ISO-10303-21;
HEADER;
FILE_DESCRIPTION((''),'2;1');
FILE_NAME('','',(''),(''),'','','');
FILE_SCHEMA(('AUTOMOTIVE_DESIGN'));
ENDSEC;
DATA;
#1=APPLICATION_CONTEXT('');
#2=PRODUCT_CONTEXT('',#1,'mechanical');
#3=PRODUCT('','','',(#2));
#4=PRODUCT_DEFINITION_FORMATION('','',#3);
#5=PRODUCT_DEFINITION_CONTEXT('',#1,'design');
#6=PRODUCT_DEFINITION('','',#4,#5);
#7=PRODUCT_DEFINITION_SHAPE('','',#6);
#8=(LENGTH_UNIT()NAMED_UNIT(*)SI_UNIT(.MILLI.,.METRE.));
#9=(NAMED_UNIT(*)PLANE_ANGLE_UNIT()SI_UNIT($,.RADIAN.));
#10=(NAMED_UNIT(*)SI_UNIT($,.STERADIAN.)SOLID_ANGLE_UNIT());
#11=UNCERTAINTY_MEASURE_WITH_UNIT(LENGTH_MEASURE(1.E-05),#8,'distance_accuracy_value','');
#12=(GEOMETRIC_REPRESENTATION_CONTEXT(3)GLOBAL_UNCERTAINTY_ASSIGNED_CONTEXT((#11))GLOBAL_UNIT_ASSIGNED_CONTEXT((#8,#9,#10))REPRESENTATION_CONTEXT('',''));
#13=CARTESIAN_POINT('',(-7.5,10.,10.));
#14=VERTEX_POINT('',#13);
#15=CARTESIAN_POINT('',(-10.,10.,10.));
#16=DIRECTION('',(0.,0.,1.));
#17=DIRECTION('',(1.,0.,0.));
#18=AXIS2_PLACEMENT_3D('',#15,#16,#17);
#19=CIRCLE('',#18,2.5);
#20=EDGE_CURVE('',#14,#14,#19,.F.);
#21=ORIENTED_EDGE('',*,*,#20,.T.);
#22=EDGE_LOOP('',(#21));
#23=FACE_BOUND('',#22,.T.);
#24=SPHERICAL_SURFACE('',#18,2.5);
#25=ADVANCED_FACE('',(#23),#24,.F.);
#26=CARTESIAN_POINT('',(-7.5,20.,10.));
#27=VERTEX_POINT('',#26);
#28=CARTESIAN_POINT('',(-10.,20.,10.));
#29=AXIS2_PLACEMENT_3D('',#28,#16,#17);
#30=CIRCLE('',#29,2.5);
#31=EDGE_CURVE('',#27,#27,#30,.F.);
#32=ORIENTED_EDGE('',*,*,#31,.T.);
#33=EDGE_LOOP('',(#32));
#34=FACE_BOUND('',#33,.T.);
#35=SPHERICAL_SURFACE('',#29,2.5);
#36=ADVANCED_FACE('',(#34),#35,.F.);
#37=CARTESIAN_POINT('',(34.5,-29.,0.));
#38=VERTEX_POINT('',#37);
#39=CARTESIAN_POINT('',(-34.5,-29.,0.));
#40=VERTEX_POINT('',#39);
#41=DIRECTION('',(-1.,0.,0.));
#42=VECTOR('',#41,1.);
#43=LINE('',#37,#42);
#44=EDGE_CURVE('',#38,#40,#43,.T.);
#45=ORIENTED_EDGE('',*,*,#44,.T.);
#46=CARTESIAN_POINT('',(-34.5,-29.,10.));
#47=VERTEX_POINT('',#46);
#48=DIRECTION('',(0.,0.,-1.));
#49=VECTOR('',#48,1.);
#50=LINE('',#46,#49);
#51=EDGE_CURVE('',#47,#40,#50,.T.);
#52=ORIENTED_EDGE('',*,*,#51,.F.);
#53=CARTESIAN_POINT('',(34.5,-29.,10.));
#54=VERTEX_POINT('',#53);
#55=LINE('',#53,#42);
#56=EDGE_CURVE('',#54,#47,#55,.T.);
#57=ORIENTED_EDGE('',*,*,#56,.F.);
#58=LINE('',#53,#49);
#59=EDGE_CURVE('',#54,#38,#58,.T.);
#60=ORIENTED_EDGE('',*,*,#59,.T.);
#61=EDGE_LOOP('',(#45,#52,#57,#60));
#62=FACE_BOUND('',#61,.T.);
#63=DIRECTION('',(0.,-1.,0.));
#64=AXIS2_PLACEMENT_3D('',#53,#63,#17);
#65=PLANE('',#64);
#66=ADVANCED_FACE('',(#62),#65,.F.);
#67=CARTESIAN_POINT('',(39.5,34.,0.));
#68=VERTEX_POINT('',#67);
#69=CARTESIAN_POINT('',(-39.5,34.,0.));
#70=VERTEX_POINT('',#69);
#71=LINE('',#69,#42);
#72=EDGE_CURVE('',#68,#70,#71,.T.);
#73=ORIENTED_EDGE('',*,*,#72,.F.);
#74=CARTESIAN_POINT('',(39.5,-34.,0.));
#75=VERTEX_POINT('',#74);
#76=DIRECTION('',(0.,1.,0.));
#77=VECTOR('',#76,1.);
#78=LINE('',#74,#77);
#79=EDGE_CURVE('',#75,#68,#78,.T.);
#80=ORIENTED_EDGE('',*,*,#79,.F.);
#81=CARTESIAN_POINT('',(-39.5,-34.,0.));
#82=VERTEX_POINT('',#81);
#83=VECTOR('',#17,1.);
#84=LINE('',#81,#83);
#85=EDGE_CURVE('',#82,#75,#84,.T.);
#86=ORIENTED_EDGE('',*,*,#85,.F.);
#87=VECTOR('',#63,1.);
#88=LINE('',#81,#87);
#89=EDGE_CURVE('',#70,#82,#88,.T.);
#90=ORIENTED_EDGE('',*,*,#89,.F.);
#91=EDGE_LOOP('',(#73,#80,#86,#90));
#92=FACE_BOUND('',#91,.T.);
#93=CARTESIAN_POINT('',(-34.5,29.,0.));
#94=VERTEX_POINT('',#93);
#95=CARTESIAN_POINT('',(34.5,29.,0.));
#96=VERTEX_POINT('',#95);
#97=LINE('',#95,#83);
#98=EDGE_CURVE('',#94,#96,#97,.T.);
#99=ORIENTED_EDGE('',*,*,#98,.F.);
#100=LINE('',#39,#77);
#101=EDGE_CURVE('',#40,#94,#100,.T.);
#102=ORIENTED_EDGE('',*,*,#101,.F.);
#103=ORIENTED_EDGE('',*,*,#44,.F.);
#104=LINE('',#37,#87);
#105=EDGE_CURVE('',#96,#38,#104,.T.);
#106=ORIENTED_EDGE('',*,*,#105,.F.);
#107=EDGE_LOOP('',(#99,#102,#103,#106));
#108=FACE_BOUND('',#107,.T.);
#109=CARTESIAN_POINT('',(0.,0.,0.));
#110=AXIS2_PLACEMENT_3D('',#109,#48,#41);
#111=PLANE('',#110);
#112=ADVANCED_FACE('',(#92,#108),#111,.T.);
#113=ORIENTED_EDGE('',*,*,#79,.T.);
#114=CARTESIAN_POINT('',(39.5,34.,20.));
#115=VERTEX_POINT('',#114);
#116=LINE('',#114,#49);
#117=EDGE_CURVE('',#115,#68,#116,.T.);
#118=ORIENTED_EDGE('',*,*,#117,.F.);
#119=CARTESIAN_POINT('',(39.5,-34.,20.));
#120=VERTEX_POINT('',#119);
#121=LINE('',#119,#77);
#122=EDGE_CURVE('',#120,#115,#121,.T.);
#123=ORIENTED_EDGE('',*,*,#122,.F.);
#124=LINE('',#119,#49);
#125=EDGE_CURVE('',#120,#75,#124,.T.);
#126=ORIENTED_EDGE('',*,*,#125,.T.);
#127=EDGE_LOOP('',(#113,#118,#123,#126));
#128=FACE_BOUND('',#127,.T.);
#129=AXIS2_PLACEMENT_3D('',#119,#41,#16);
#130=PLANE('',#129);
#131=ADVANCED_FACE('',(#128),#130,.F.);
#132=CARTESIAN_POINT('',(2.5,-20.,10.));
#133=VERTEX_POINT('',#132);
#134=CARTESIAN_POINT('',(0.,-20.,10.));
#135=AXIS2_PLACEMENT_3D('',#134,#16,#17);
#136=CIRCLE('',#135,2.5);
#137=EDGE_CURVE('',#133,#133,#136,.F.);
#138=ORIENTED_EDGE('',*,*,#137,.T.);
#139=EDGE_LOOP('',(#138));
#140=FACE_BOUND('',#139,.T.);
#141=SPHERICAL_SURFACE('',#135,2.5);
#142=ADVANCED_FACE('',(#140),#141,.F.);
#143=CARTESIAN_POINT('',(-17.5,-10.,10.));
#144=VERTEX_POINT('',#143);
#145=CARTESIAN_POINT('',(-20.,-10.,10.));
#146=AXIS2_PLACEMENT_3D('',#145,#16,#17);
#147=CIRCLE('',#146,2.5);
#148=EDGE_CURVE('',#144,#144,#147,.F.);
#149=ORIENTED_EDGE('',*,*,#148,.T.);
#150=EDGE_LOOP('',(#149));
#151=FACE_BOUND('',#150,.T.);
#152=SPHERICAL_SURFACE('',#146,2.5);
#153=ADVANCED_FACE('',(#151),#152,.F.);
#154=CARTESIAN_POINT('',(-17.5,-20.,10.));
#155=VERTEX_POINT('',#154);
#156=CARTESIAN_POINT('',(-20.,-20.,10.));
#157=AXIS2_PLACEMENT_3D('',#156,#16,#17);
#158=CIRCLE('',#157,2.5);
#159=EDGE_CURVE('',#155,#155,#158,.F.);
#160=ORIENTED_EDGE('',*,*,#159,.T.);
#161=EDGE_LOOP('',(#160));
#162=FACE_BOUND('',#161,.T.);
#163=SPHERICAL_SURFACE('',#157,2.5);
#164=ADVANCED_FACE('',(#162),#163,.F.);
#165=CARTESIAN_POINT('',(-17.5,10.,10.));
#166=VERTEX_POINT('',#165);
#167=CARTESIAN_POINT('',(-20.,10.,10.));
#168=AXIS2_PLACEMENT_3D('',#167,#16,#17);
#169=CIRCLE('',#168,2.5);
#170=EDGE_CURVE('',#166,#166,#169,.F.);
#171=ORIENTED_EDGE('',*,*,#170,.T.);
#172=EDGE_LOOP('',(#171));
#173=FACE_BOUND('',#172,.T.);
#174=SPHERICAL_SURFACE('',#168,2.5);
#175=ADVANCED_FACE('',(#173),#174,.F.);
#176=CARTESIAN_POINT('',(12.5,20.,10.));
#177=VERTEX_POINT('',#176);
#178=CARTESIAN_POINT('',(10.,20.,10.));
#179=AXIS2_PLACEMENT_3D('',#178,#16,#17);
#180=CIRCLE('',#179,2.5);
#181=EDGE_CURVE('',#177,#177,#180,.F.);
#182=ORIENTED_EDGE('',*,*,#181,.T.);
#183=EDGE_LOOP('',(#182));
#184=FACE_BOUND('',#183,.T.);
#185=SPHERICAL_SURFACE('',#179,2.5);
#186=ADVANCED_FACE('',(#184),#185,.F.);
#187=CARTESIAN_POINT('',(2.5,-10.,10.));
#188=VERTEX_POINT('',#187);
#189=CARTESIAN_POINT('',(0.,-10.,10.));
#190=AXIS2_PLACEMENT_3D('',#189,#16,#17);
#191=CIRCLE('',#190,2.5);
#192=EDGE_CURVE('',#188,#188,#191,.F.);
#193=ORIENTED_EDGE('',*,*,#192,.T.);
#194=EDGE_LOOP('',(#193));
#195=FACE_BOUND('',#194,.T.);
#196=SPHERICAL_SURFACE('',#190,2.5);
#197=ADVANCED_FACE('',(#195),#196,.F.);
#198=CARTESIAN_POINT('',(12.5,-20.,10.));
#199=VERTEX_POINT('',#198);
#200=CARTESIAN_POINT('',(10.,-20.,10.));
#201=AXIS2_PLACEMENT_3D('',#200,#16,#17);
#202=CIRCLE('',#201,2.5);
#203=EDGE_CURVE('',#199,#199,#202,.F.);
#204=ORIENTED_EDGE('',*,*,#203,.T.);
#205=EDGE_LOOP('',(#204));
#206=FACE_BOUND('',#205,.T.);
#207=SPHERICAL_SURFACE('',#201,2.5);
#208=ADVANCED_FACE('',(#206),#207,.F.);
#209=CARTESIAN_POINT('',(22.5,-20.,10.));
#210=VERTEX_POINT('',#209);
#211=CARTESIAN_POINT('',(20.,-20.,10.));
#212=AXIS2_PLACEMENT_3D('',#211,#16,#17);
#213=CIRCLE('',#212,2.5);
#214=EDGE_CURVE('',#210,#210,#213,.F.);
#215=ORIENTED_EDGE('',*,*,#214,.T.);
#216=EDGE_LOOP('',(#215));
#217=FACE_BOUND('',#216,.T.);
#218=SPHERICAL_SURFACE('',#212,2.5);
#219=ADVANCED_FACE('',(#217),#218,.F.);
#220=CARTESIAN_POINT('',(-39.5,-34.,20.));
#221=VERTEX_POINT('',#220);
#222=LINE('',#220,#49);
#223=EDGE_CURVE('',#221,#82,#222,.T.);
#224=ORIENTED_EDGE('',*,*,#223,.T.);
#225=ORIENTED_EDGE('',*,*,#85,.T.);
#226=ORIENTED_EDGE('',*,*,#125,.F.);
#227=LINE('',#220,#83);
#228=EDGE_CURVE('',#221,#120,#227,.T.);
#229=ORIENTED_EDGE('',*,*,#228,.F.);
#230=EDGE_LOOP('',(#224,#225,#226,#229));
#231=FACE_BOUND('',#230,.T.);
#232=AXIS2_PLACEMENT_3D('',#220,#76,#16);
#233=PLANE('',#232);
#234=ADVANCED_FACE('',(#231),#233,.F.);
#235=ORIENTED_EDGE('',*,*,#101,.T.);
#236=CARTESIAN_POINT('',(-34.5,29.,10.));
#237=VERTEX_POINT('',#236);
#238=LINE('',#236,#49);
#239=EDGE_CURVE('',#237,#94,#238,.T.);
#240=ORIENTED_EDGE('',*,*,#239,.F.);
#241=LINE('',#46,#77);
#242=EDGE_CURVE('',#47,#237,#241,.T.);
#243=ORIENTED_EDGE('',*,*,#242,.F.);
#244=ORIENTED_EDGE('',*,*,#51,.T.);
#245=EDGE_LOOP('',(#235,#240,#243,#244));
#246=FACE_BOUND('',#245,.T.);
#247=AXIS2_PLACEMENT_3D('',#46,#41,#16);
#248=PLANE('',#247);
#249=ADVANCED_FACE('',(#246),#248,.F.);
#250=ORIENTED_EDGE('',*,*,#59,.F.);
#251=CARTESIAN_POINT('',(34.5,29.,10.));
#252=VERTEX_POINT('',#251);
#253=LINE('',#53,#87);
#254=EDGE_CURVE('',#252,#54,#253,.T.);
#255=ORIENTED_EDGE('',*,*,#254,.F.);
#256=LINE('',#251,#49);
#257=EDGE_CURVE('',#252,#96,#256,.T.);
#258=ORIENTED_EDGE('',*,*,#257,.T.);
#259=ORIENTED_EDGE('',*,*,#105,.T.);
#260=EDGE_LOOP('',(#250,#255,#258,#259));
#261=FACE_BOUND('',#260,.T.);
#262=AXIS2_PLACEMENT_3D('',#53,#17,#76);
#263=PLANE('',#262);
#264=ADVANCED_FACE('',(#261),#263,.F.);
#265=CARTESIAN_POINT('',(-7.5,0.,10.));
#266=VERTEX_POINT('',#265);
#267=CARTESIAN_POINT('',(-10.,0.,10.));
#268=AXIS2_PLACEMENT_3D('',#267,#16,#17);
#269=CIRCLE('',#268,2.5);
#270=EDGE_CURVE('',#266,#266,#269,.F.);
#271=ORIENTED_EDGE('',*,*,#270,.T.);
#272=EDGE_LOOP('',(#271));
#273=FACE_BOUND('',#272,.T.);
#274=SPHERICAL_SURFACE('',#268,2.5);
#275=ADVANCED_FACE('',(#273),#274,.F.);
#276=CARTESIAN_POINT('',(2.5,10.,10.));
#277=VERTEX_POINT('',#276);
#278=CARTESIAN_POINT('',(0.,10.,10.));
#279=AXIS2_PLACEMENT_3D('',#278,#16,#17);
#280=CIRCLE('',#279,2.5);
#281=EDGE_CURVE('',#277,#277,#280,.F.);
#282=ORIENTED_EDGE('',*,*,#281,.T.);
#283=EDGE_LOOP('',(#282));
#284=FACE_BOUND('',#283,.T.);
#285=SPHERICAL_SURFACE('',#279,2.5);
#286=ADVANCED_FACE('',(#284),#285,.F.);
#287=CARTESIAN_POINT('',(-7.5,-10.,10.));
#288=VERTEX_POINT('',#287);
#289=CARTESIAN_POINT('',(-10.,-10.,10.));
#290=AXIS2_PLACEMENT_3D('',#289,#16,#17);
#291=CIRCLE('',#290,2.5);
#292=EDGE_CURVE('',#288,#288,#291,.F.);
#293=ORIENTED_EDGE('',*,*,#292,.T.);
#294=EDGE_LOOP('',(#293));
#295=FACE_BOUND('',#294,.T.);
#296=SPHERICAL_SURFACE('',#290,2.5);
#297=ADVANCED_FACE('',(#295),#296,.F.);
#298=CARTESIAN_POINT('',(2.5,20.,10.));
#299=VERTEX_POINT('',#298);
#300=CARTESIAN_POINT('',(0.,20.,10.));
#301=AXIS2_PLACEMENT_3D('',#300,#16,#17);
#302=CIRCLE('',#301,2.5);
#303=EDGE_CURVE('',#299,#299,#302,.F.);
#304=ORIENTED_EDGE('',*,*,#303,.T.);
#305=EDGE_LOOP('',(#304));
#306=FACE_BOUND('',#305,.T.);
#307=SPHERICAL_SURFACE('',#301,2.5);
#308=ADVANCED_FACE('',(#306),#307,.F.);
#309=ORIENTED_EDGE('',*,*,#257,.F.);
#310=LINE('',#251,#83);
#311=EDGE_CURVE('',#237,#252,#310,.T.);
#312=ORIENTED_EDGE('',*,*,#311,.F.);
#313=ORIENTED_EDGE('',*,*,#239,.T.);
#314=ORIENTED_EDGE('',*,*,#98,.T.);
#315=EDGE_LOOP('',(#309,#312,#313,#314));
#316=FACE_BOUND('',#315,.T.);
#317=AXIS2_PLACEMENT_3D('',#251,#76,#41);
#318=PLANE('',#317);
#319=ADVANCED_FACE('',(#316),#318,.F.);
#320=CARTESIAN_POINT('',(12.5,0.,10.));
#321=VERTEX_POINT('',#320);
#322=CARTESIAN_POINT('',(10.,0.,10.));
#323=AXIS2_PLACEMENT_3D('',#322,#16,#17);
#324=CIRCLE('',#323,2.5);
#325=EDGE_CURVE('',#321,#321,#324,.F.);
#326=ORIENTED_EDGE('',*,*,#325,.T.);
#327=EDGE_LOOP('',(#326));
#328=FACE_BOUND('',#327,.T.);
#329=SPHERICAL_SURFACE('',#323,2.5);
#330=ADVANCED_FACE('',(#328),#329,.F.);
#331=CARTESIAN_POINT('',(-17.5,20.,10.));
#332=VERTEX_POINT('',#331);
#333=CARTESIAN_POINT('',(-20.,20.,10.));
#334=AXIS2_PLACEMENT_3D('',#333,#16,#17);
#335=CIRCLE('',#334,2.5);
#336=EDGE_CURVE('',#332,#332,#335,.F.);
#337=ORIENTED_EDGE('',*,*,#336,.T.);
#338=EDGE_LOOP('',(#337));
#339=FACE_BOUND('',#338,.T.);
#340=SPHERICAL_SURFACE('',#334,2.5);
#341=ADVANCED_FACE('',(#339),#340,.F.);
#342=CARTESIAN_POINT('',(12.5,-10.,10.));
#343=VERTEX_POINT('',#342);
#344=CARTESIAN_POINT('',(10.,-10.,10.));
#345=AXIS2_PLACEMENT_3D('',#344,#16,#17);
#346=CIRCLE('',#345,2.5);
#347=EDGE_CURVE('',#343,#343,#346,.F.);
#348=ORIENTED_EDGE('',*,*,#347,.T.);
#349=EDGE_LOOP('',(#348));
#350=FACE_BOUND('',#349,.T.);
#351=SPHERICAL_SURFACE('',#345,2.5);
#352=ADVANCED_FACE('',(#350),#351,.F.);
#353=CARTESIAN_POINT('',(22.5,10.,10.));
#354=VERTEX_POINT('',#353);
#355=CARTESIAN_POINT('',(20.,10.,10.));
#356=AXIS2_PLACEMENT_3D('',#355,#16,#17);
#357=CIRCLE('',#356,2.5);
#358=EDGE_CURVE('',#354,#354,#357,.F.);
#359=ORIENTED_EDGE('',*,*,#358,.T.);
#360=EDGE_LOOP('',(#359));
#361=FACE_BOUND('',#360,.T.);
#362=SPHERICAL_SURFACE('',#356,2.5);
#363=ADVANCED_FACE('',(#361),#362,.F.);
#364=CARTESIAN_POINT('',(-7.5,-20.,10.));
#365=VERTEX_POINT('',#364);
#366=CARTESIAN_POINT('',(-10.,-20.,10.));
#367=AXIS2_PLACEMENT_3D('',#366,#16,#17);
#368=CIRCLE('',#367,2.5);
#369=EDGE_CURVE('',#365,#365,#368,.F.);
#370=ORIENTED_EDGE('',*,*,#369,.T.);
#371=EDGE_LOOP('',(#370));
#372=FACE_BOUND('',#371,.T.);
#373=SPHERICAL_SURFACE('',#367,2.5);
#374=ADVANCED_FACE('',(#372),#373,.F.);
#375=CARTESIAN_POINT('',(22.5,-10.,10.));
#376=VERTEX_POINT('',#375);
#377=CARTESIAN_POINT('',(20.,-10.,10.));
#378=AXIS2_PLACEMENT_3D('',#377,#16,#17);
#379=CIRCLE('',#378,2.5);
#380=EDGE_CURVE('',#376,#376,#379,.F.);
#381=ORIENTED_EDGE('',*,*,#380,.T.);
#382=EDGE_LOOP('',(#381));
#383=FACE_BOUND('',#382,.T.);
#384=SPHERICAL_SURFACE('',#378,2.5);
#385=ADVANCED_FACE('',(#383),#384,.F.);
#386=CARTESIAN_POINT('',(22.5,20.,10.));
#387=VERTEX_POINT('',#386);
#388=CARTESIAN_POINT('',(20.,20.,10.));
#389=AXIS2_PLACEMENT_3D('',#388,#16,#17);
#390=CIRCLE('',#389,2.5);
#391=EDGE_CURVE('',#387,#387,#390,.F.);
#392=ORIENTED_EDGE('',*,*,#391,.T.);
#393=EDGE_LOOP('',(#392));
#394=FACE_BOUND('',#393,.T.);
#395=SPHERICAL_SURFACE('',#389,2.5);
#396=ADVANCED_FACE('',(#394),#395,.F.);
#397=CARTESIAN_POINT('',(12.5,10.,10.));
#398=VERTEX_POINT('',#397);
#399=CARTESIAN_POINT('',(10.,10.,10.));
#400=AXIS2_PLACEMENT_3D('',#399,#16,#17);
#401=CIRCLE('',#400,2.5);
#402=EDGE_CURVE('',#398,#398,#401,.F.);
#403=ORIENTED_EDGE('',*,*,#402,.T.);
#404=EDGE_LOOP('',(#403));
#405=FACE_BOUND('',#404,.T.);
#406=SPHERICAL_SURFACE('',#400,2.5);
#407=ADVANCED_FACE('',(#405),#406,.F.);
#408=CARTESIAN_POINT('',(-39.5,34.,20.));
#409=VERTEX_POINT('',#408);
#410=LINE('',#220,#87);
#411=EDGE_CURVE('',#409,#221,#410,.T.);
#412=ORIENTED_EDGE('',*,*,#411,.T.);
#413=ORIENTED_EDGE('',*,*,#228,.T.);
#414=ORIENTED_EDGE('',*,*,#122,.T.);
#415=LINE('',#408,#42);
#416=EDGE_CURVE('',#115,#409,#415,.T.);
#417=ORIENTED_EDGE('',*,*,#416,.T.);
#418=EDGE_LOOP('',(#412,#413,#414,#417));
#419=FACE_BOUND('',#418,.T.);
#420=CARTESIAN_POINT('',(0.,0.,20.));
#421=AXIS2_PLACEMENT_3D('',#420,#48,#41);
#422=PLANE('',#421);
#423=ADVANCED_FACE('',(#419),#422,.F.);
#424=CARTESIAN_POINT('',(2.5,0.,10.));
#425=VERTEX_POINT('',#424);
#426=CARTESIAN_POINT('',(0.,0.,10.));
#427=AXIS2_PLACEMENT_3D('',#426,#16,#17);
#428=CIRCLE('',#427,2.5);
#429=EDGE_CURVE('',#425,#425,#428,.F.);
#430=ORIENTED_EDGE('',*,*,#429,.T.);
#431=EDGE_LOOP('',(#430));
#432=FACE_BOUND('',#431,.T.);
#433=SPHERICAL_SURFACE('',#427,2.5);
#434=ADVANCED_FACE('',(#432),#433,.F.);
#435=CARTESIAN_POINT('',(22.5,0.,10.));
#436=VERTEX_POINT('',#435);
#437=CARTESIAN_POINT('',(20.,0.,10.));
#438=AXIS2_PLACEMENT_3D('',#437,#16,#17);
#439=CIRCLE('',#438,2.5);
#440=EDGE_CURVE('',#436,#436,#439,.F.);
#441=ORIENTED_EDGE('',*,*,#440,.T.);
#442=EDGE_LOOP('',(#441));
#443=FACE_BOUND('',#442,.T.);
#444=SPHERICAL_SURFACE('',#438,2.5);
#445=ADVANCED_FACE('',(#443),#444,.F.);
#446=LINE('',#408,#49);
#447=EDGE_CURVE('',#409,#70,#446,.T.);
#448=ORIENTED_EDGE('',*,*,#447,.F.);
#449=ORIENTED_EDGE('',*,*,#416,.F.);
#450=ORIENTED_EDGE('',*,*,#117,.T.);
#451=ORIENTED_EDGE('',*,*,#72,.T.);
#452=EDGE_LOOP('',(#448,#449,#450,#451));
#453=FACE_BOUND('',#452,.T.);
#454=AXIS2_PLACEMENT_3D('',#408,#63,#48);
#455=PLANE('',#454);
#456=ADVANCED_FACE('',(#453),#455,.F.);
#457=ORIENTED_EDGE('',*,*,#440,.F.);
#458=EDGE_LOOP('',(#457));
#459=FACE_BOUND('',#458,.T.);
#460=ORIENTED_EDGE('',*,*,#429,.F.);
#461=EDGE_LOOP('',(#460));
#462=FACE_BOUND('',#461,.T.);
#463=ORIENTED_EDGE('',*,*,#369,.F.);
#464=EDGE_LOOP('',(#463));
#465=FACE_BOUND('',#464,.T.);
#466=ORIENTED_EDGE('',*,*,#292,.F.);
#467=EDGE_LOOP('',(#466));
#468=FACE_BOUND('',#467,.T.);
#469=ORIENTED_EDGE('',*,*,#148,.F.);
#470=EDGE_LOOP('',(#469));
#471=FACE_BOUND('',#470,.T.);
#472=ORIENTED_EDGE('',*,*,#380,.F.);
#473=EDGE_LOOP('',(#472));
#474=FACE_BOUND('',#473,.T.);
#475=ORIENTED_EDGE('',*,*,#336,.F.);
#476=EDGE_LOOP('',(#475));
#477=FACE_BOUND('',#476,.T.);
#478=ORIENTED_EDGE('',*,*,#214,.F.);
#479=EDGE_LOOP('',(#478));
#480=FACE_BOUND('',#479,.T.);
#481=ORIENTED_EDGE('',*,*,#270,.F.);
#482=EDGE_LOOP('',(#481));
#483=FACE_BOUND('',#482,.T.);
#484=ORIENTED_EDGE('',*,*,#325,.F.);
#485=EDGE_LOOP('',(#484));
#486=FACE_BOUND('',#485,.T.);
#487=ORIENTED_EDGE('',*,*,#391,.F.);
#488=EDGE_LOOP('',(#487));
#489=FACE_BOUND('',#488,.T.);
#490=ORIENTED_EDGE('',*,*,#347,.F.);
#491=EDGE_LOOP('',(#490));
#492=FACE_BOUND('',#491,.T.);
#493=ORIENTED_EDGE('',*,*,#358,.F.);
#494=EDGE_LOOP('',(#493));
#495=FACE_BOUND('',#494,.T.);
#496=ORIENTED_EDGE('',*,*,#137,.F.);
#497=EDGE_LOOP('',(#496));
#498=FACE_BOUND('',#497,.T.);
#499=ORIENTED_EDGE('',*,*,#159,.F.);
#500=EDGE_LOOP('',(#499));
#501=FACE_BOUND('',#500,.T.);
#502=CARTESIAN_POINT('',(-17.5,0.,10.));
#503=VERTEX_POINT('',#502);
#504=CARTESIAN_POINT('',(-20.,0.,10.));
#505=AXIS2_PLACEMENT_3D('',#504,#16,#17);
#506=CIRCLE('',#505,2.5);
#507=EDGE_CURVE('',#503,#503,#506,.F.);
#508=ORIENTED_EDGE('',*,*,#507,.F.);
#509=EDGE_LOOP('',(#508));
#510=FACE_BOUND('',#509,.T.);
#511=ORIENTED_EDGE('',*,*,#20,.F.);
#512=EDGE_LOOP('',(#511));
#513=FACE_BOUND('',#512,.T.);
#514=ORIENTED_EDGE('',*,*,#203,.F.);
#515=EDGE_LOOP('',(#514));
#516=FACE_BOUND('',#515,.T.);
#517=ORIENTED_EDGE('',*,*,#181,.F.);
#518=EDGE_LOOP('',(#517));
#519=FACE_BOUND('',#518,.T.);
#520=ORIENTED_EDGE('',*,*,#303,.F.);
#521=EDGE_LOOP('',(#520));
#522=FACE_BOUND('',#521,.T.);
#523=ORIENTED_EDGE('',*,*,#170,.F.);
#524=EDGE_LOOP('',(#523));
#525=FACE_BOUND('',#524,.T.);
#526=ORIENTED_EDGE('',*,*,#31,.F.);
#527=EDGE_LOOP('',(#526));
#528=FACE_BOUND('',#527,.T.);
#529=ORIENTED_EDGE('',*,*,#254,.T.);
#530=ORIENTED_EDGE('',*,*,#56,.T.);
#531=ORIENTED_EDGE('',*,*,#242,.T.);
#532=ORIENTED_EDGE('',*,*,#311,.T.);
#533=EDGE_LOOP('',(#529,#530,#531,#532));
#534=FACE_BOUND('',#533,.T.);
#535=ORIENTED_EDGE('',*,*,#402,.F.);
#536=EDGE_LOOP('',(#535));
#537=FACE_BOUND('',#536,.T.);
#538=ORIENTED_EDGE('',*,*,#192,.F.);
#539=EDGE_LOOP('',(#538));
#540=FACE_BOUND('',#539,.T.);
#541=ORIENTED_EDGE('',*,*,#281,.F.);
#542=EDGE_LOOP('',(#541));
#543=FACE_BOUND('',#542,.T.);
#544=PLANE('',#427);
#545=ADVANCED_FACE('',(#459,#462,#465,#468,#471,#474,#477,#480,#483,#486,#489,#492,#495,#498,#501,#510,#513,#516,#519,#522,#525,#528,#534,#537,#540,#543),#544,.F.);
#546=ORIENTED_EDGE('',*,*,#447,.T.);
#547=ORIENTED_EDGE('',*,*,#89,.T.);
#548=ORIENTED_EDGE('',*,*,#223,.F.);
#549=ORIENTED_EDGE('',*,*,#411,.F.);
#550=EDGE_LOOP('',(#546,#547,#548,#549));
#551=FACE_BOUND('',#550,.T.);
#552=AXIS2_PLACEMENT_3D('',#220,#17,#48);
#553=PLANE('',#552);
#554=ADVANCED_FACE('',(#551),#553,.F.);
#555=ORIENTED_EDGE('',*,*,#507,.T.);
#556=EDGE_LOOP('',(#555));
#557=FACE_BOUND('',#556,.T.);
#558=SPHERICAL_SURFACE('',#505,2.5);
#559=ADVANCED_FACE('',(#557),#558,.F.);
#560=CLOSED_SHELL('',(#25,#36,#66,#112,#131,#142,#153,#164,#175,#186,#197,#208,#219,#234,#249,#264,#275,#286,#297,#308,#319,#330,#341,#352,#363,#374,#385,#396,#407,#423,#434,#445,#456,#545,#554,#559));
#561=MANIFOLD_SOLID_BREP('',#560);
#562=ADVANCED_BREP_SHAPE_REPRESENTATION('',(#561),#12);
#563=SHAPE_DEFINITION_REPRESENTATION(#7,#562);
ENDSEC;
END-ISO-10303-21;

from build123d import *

# Parameters (mm, degrees)
SKETCH1_W            = 79
SKETCH1_H            = 68
MOLD_BASE_DEPTH      = 20
SKETCH2_W            = 69
SKETCH2_H            = 58
MOLD_CUT_DEPTH       = 10
LPATTERN1_COUNT      = 3
LPATTERN1_PITCH      = 10
LPATTERN1_COUNT_DIR2 = 3
LPATTERN1_PITCH_DIR2 = 10
LPATTERN2_COUNT      = 3
LPATTERN2_PITCH      = 10
LPATTERN2_COUNT_DIR2 = 3
LPATTERN2_PITCH_DIR2 = 10


with BuildPart() as part:
    # Sketch1 → Mold Base (new body)
    with BuildSketch(Plane.XY):
        Rectangle(SKETCH1_W, SKETCH1_H)
    extrude(amount=MOLD_BASE_DEPTH)

    # Sketch2 → Mold Cut (cut)
    with BuildSketch(Plane(origin=(0, 0, 0), x_dir=(-1, 0, 0), z_dir=(0, 0, -1))):
        Rectangle(SKETCH2_W, SKETCH2_H)
    extrude(amount=-MOLD_CUT_DEPTH, mode=Mode.SUBTRACT)

    # Sketch3 → Mold (revolve, cut)
    with BuildSketch(Plane(origin=(0, 0, 10), x_dir=(-1, 0, 0), z_dir=(0, 0, -1))):
        with BuildLine():
            Line((0, 2.5), (0, -2.5))
            ThreePointArc((0, -2.5), (2.5, 0), (0, 2.5))
        make_face()
    mold = revolve(axis=Axis((0, 2.5, 10), (0, -1, 0)), mode=Mode.SUBTRACT)

    # LPattern1: Mold 3 × 3
    with Locations(*[(-j * LPATTERN1_PITCH_DIR2, i * LPATTERN1_PITCH, 0) for i in range(LPATTERN1_COUNT) for j in range(LPATTERN1_COUNT_DIR2) if (i, j) != (0, 0)]):
        add(mold, mode=Mode.SUBTRACT)

    # LPattern2: Mold 3 × 3
    with Locations(*[(i * LPATTERN2_PITCH, -j * LPATTERN2_PITCH_DIR2, 0) for i in range(LPATTERN2_COUNT) for j in range(LPATTERN2_COUNT_DIR2) if (i, j) != (0, 0)]):
        add(mold, mode=Mode.SUBTRACT)

    # LPattern2 copy 1 sketch → LPattern2 copy 1 (revolve, cut)
    with BuildSketch(Plane(origin=(-10, -10, 10), x_dir=(-1, 0, 0), z_dir=(0, 0, -1))):
        with BuildLine():
            Line((0, 2.5), (0, -2.5))
            ThreePointArc((0, -2.5), (2.5, 0), (0, 2.5))
        make_face()
    revolve(axis=Axis((-10, -7.5, 10), (0, -1, 0)), mode=Mode.SUBTRACT)

    # LPattern2 copy 2 sketch → LPattern2 copy 2 (revolve, cut)
    with BuildSketch(Plane(origin=(-10, -20, 10), x_dir=(-1, 0, 0), z_dir=(0, 0, -1))):
        with BuildLine():
            Line((0, 2.5), (0, -2.5))
            ThreePointArc((0, -2.5), (2.5, 0), (0, 2.5))
        make_face()
    revolve(axis=Axis((-10, -17.5, 10), (0, -1, 0)), mode=Mode.SUBTRACT)

    # LPattern2 copy 3 sketch → LPattern2 copy 3 (revolve, cut)
    with BuildSketch(Plane(origin=(0, 0, 10), x_dir=(-1, 0, 0), z_dir=(0, 0, -1))):
        with BuildLine():
            Line((0, 2.5), (0, -2.5))
            ThreePointArc((0, -2.5), (2.5, 0), (0, 2.5))
        make_face()
    revolve(axis=Axis((0, 2.5, 10), (0, -1, 0)), mode=Mode.SUBTRACT)

    # LPattern2 copy 4 sketch → LPattern2 copy 4 (revolve, cut)
    with BuildSketch(Plane(origin=(0, -10, 10), x_dir=(-1, 0, 0), z_dir=(0, 0, -1))):
        with BuildLine():
            Line((0, 2.5), (0, -2.5))
            ThreePointArc((0, -2.5), (2.5, 0), (0, 2.5))
        make_face()
    revolve(axis=Axis((0, -7.5, 10), (0, -1, 0)), mode=Mode.SUBTRACT)

    # LPattern2 copy 5 sketch → LPattern2 copy 5 (revolve, cut)
    with BuildSketch(Plane(origin=(0, -20, 10), x_dir=(-1, 0, 0), z_dir=(0, 0, -1))):
        with BuildLine():
            Line((0, 2.5), (0, -2.5))
            ThreePointArc((0, -2.5), (2.5, 0), (0, 2.5))
        make_face()
    revolve(axis=Axis((0, -17.5, 10), (0, -1, 0)), mode=Mode.SUBTRACT)

    # LPattern2 copy 6 sketch → LPattern2 copy 6 (revolve, cut)
    with BuildSketch(Plane(origin=(10, 0, 10), x_dir=(-1, 0, 0), z_dir=(0, 0, -1))):
        with BuildLine():
            Line((0, 2.5), (0, -2.5))
            ThreePointArc((0, -2.5), (2.5, 0), (0, 2.5))
        make_face()
    revolve(axis=Axis((10, 2.5, 10), (0, -1, 0)), mode=Mode.SUBTRACT)

    # LPattern2 copy 7 sketch → LPattern2 copy 7 (revolve, cut)
    with BuildSketch(Plane(origin=(10, -10, 10), x_dir=(-1, 0, 0), z_dir=(0, 0, -1))):
        with BuildLine():
            Line((0, 2.5), (0, -2.5))
            ThreePointArc((0, -2.5), (2.5, 0), (0, 2.5))
        make_face()
    revolve(axis=Axis((10, -7.5, 10), (0, -1, 0)), mode=Mode.SUBTRACT)

    # LPattern2 copy 8 sketch → LPattern2 copy 8 (revolve, cut)
    with BuildSketch(Plane(origin=(10, -20, 10), x_dir=(-1, 0, 0), z_dir=(0, 0, -1))):
        with BuildLine():
            Line((0, 2.5), (0, -2.5))
            ThreePointArc((0, -2.5), (2.5, 0), (0, 2.5))
        make_face()
    revolve(axis=Axis((10, -17.5, 10), (0, -1, 0)), mode=Mode.SUBTRACT)

    # LPattern2 copy 9 sketch → LPattern2 copy 9 (revolve, cut)
    with BuildSketch(Plane(origin=(-20, -10, 10), x_dir=(-1, 0, 0), z_dir=(0, 0, -1))):
        with BuildLine():
            Line((0, 2.5), (0, -2.5))
            ThreePointArc((0, -2.5), (2.5, 0), (0, 2.5))
        make_face()
    revolve(axis=Axis((-20, -7.5, 10), (0, -1, 0)), mode=Mode.SUBTRACT)

    # LPattern2 copy 10 sketch → LPattern2 copy 10 (revolve, cut)
    with BuildSketch(Plane(origin=(-20, -20, 10), x_dir=(-1, 0, 0), z_dir=(0, 0, -1))):
        with BuildLine():
            Line((0, 2.5), (0, -2.5))
            ThreePointArc((0, -2.5), (2.5, 0), (0, 2.5))
        make_face()
    revolve(axis=Axis((-20, -17.5, 10), (0, -1, 0)), mode=Mode.SUBTRACT)

    # LPattern2 copy 11 sketch → LPattern2 copy 11 (revolve, cut)
    with BuildSketch(Plane(origin=(-10, 0, 10), x_dir=(-1, 0, 0), z_dir=(0, 0, -1))):
        with BuildLine():
            Line((0, 2.5), (0, -2.5))
            ThreePointArc((0, -2.5), (2.5, 0), (0, 2.5))
        make_face()
    revolve(axis=Axis((-10, 2.5, 10), (0, -1, 0)), mode=Mode.SUBTRACT)

    # LPattern2 copy 12 sketch → LPattern2 copy 12 (revolve, cut)
    with BuildSketch(Plane(origin=(-10, -10, 10), x_dir=(-1, 0, 0), z_dir=(0, 0, -1))):
        with BuildLine():
            Line((0, 2.5), (0, -2.5))
            ThreePointArc((0, -2.5), (2.5, 0), (0, 2.5))
        make_face()
    revolve(axis=Axis((-10, -7.5, 10), (0, -1, 0)), mode=Mode.SUBTRACT)

    # LPattern2 copy 13 sketch → LPattern2 copy 13 (revolve, cut)
    with BuildSketch(Plane(origin=(-10, -20, 10), x_dir=(-1, 0, 0), z_dir=(0, 0, -1))):
        with BuildLine():
            Line((0, 2.5), (0, -2.5))
            ThreePointArc((0, -2.5), (2.5, 0), (0, 2.5))
        make_face()
    revolve(axis=Axis((-10, -17.5, 10), (0, -1, 0)), mode=Mode.SUBTRACT)

    # LPattern2 copy 14 sketch → LPattern2 copy 14 (revolve, cut)
    with BuildSketch(Plane(origin=(0, 0, 10), x_dir=(-1, 0, 0), z_dir=(0, 0, -1))):
        with BuildLine():
            Line((0, 2.5), (0, -2.5))
            ThreePointArc((0, -2.5), (2.5, 0), (0, 2.5))
        make_face()
    revolve(axis=Axis((0, 2.5, 10), (0, -1, 0)), mode=Mode.SUBTRACT)

    # LPattern2 copy 15 sketch → LPattern2 copy 15 (revolve, cut)
    with BuildSketch(Plane(origin=(0, -10, 10), x_dir=(-1, 0, 0), z_dir=(0, 0, -1))):
        with BuildLine():
            Line((0, 2.5), (0, -2.5))
            ThreePointArc((0, -2.5), (2.5, 0), (0, 2.5))
        make_face()
    revolve(axis=Axis((0, -7.5, 10), (0, -1, 0)), mode=Mode.SUBTRACT)

    # LPattern2 copy 16 sketch → LPattern2 copy 16 (revolve, cut)
    with BuildSketch(Plane(origin=(0, -20, 10), x_dir=(-1, 0, 0), z_dir=(0, 0, -1))):
        with BuildLine():
            Line((0, 2.5), (0, -2.5))
            ThreePointArc((0, -2.5), (2.5, 0), (0, 2.5))
        make_face()
    revolve(axis=Axis((0, -17.5, 10), (0, -1, 0)), mode=Mode.SUBTRACT)

    # LPattern2 copy 17 sketch → LPattern2 copy 17 (revolve, cut)
    with BuildSketch(Plane(origin=(0, 0, 10), x_dir=(-1, 0, 0), z_dir=(0, 0, -1))):
        with BuildLine():
            Line((0, 2.5), (0, -2.5))
            ThreePointArc((0, -2.5), (2.5, 0), (0, 2.5))
        make_face()
    revolve(axis=Axis((0, 2.5, 10), (0, -1, 0)), mode=Mode.SUBTRACT)

    # LPattern2 copy 18 sketch → LPattern2 copy 18 (revolve, cut)
    with BuildSketch(Plane(origin=(0, -10, 10), x_dir=(-1, 0, 0), z_dir=(0, 0, -1))):
        with BuildLine():
            Line((0, 2.5), (0, -2.5))
            ThreePointArc((0, -2.5), (2.5, 0), (0, 2.5))
        make_face()
    revolve(axis=Axis((0, -7.5, 10), (0, -1, 0)), mode=Mode.SUBTRACT)

    # LPattern2 copy 19 sketch → LPattern2 copy 19 (revolve, cut)
    with BuildSketch(Plane(origin=(10, 10, 10), x_dir=(-1, 0, 0), z_dir=(0, 0, -1))):
        with BuildLine():
            Line((0, 2.5), (0, -2.5))
            ThreePointArc((0, -2.5), (2.5, 0), (0, 2.5))
        make_face()
    revolve(axis=Axis((10, 12.5, 10), (0, -1, 0)), mode=Mode.SUBTRACT)

    # LPattern2 copy 20 sketch → LPattern2 copy 20 (revolve, cut)
    with BuildSketch(Plane(origin=(10, 0, 10), x_dir=(-1, 0, 0), z_dir=(0, 0, -1))):
        with BuildLine():
            Line((0, 2.5), (0, -2.5))
            ThreePointArc((0, -2.5), (2.5, 0), (0, 2.5))
        make_face()
    revolve(axis=Axis((10, 2.5, 10), (0, -1, 0)), mode=Mode.SUBTRACT)

    # LPattern2 copy 21 sketch → LPattern2 copy 21 (revolve, cut)
    with BuildSketch(Plane(origin=(10, -10, 10), x_dir=(-1, 0, 0), z_dir=(0, 0, -1))):
        with BuildLine():
            Line((0, 2.5), (0, -2.5))
            ThreePointArc((0, -2.5), (2.5, 0), (0, 2.5))
        make_face()
    revolve(axis=Axis((10, -7.5, 10), (0, -1, 0)), mode=Mode.SUBTRACT)

    # LPattern2 copy 22 sketch → LPattern2 copy 22 (revolve, cut)
    with BuildSketch(Plane(origin=(20, 10, 10), x_dir=(-1, 0, 0), z_dir=(0, 0, -1))):
        with BuildLine():
            Line((0, 2.5), (0, -2.5))
            ThreePointArc((0, -2.5), (2.5, 0), (0, 2.5))
        make_face()
    revolve(axis=Axis((20, 12.5, 10), (0, -1, 0)), mode=Mode.SUBTRACT)

    # LPattern2 copy 23 sketch → LPattern2 copy 23 (revolve, cut)
    with BuildSketch(Plane(origin=(20, 0, 10), x_dir=(-1, 0, 0), z_dir=(0, 0, -1))):
        with BuildLine():
            Line((0, 2.5), (0, -2.5))
            ThreePointArc((0, -2.5), (2.5, 0), (0, 2.5))
        make_face()
    revolve(axis=Axis((20, 2.5, 10), (0, -1, 0)), mode=Mode.SUBTRACT)

    # LPattern2 copy 24 sketch → LPattern2 copy 24 (revolve, cut)
    with BuildSketch(Plane(origin=(20, -10, 10), x_dir=(-1, 0, 0), z_dir=(0, 0, -1))):
        with BuildLine():
            Line((0, 2.5), (0, -2.5))
            ThreePointArc((0, -2.5), (2.5, 0), (0, 2.5))
        make_face()
    revolve(axis=Axis((20, -7.5, 10), (0, -1, 0)), mode=Mode.SUBTRACT)

    # LPattern2 copy 25 sketch → LPattern2 copy 25 (revolve, cut)
    with BuildSketch(Plane(origin=(-10, 0, 10), x_dir=(-1, 0, 0), z_dir=(0, 0, -1))):
        with BuildLine():
            Line((0, 2.5), (0, -2.5))
            ThreePointArc((0, -2.5), (2.5, 0), (0, 2.5))
        make_face()
    revolve(axis=Axis((-10, 2.5, 10), (0, -1, 0)), mode=Mode.SUBTRACT)

    # LPattern2 copy 26 sketch → LPattern2 copy 26 (revolve, cut)
    with BuildSketch(Plane(origin=(-10, -10, 10), x_dir=(-1, 0, 0), z_dir=(0, 0, -1))):
        with BuildLine():
            Line((0, 2.5), (0, -2.5))
            ThreePointArc((0, -2.5), (2.5, 0), (0, 2.5))
        make_face()
    revolve(axis=Axis((-10, -7.5, 10), (0, -1, 0)), mode=Mode.SUBTRACT)

    # LPattern2 copy 27 sketch → LPattern2 copy 27 (revolve, cut)
    with BuildSketch(Plane(origin=(0, 10, 10), x_dir=(-1, 0, 0), z_dir=(0, 0, -1))):
        with BuildLine():
            Line((0, 2.5), (0, -2.5))
            ThreePointArc((0, -2.5), (2.5, 0), (0, 2.5))
        make_face()
    revolve(axis=Axis((0, 12.5, 10), (0, -1, 0)), mode=Mode.SUBTRACT)

    # LPattern2 copy 28 sketch → LPattern2 copy 28 (revolve, cut)
    with BuildSketch(Plane(origin=(0, 0, 10), x_dir=(-1, 0, 0), z_dir=(0, 0, -1))):
        with BuildLine():
            Line((0, 2.5), (0, -2.5))
            ThreePointArc((0, -2.5), (2.5, 0), (0, 2.5))
        make_face()
    revolve(axis=Axis((0, 2.5, 10), (0, -1, 0)), mode=Mode.SUBTRACT)

    # LPattern2 copy 29 sketch → LPattern2 copy 29 (revolve, cut)
    with BuildSketch(Plane(origin=(0, -10, 10), x_dir=(-1, 0, 0), z_dir=(0, 0, -1))):
        with BuildLine():
            Line((0, 2.5), (0, -2.5))
            ThreePointArc((0, -2.5), (2.5, 0), (0, 2.5))
        make_face()
    revolve(axis=Axis((0, -7.5, 10), (0, -1, 0)), mode=Mode.SUBTRACT)

    # LPattern2 copy 30 sketch → LPattern2 copy 30 (revolve, cut)
    with BuildSketch(Plane(origin=(10, 10, 10), x_dir=(-1, 0, 0), z_dir=(0, 0, -1))):
        with BuildLine():
            Line((0, 2.5), (0, -2.5))
            ThreePointArc((0, -2.5), (2.5, 0), (0, 2.5))
        make_face()
    revolve(axis=Axis((10, 12.5, 10), (0, -1, 0)), mode=Mode.SUBTRACT)

    # LPattern2 copy 31 sketch → LPattern2 copy 31 (revolve, cut)
    with BuildSketch(Plane(origin=(10, 0, 10), x_dir=(-1, 0, 0), z_dir=(0, 0, -1))):
        with BuildLine():
            Line((0, 2.5), (0, -2.5))
            ThreePointArc((0, -2.5), (2.5, 0), (0, 2.5))
        make_face()
    revolve(axis=Axis((10, 2.5, 10), (0, -1, 0)), mode=Mode.SUBTRACT)

    # LPattern2 copy 32 sketch → LPattern2 copy 32 (revolve, cut)
    with BuildSketch(Plane(origin=(10, -10, 10), x_dir=(-1, 0, 0), z_dir=(0, 0, -1))):
        with BuildLine():
            Line((0, 2.5), (0, -2.5))
            ThreePointArc((0, -2.5), (2.5, 0), (0, 2.5))
        make_face()
    revolve(axis=Axis((10, -7.5, 10), (0, -1, 0)), mode=Mode.SUBTRACT)

    # LPattern2 copy 33 sketch → LPattern2 copy 33 (revolve, cut)
    with BuildSketch(Plane(origin=(-20, 0, 10), x_dir=(-1, 0, 0), z_dir=(0, 0, -1))):
        with BuildLine():
            Line((0, 2.5), (0, -2.5))
            ThreePointArc((0, -2.5), (2.5, 0), (0, 2.5))
        make_face()
    revolve(axis=Axis((-20, 2.5, 10), (0, -1, 0)), mode=Mode.SUBTRACT)

    # LPattern2 copy 34 sketch → LPattern2 copy 34 (revolve, cut)
    with BuildSketch(Plane(origin=(-20, -10, 10), x_dir=(-1, 0, 0), z_dir=(0, 0, -1))):
        with BuildLine():
            Line((0, 2.5), (0, -2.5))
            ThreePointArc((0, -2.5), (2.5, 0), (0, 2.5))
        make_face()
    revolve(axis=Axis((-20, -7.5, 10), (0, -1, 0)), mode=Mode.SUBTRACT)

    # LPattern2 copy 35 sketch → LPattern2 copy 35 (revolve, cut)
    with BuildSketch(Plane(origin=(-10, 10, 10), x_dir=(-1, 0, 0), z_dir=(0, 0, -1))):
        with BuildLine():
            Line((0, 2.5), (0, -2.5))
            ThreePointArc((0, -2.5), (2.5, 0), (0, 2.5))
        make_face()
    revolve(axis=Axis((-10, 12.5, 10), (0, -1, 0)), mode=Mode.SUBTRACT)

    # LPattern2 copy 36 sketch → LPattern2 copy 36 (revolve, cut)
    with BuildSketch(Plane(origin=(-10, 0, 10), x_dir=(-1, 0, 0), z_dir=(0, 0, -1))):
        with BuildLine():
            Line((0, 2.5), (0, -2.5))
            ThreePointArc((0, -2.5), (2.5, 0), (0, 2.5))
        make_face()
    revolve(axis=Axis((-10, 2.5, 10), (0, -1, 0)), mode=Mode.SUBTRACT)

    # LPattern2 copy 37 sketch → LPattern2 copy 37 (revolve, cut)
    with BuildSketch(Plane(origin=(-10, -10, 10), x_dir=(-1, 0, 0), z_dir=(0, 0, -1))):
        with BuildLine():
            Line((0, 2.5), (0, -2.5))
            ThreePointArc((0, -2.5), (2.5, 0), (0, 2.5))
        make_face()
    revolve(axis=Axis((-10, -7.5, 10), (0, -1, 0)), mode=Mode.SUBTRACT)

    # LPattern2 copy 38 sketch → LPattern2 copy 38 (revolve, cut)
    with BuildSketch(Plane(origin=(0, 10, 10), x_dir=(-1, 0, 0), z_dir=(0, 0, -1))):
        with BuildLine():
            Line((0, 2.5), (0, -2.5))
            ThreePointArc((0, -2.5), (2.5, 0), (0, 2.5))
        make_face()
    revolve(axis=Axis((0, 12.5, 10), (0, -1, 0)), mode=Mode.SUBTRACT)

    # LPattern2 copy 39 sketch → LPattern2 copy 39 (revolve, cut)
    with BuildSketch(Plane(origin=(0, 0, 10), x_dir=(-1, 0, 0), z_dir=(0, 0, -1))):
        with BuildLine():
            Line((0, 2.5), (0, -2.5))
            ThreePointArc((0, -2.5), (2.5, 0), (0, 2.5))
        make_face()
    revolve(axis=Axis((0, 2.5, 10), (0, -1, 0)), mode=Mode.SUBTRACT)

    # LPattern2 copy 40 sketch → LPattern2 copy 40 (revolve, cut)
    with BuildSketch(Plane(origin=(0, -10, 10), x_dir=(-1, 0, 0), z_dir=(0, 0, -1))):
        with BuildLine():
            Line((0, 2.5), (0, -2.5))
            ThreePointArc((0, -2.5), (2.5, 0), (0, 2.5))
        make_face()
    revolve(axis=Axis((0, -7.5, 10), (0, -1, 0)), mode=Mode.SUBTRACT)

    # LPattern2 copy 41 sketch → LPattern2 copy 41 (revolve, cut)
    with BuildSketch(Plane(origin=(0, 10, 10), x_dir=(-1, 0, 0), z_dir=(0, 0, -1))):
        with BuildLine():
            Line((0, 2.5), (0, -2.5))
            ThreePointArc((0, -2.5), (2.5, 0), (0, 2.5))
        make_face()
    revolve(axis=Axis((0, 12.5, 10), (0, -1, 0)), mode=Mode.SUBTRACT)

    # LPattern2 copy 42 sketch → LPattern2 copy 42 (revolve, cut)
    with BuildSketch(Plane(origin=(0, 0, 10), x_dir=(-1, 0, 0), z_dir=(0, 0, -1))):
        with BuildLine():
            Line((0, 2.5), (0, -2.5))
            ThreePointArc((0, -2.5), (2.5, 0), (0, 2.5))
        make_face()
    revolve(axis=Axis((0, 2.5, 10), (0, -1, 0)), mode=Mode.SUBTRACT)

    # LPattern2 copy 43 sketch → LPattern2 copy 43 (revolve, cut)
    with BuildSketch(Plane(origin=(10, 20, 10), x_dir=(-1, 0, 0), z_dir=(0, 0, -1))):
        with BuildLine():
            Line((0, 2.5), (0, -2.5))
            ThreePointArc((0, -2.5), (2.5, 0), (0, 2.5))
        make_face()
    revolve(axis=Axis((10, 22.5, 10), (0, -1, 0)), mode=Mode.SUBTRACT)

    # LPattern2 copy 44 sketch → LPattern2 copy 44 (revolve, cut)
    with BuildSketch(Plane(origin=(10, 10, 10), x_dir=(-1, 0, 0), z_dir=(0, 0, -1))):
        with BuildLine():
            Line((0, 2.5), (0, -2.5))
            ThreePointArc((0, -2.5), (2.5, 0), (0, 2.5))
        make_face()
    revolve(axis=Axis((10, 12.5, 10), (0, -1, 0)), mode=Mode.SUBTRACT)

    # LPattern2 copy 45 sketch → LPattern2 copy 45 (revolve, cut)
    with BuildSketch(Plane(origin=(10, 0, 10), x_dir=(-1, 0, 0), z_dir=(0, 0, -1))):
        with BuildLine():
            Line((0, 2.5), (0, -2.5))
            ThreePointArc((0, -2.5), (2.5, 0), (0, 2.5))
        make_face()
    revolve(axis=Axis((10, 2.5, 10), (0, -1, 0)), mode=Mode.SUBTRACT)

    # LPattern2 copy 46 sketch → LPattern2 copy 46 (revolve, cut)
    with BuildSketch(Plane(origin=(20, 20, 10), x_dir=(-1, 0, 0), z_dir=(0, 0, -1))):
        with BuildLine():
            Line((0, 2.5), (0, -2.5))
            ThreePointArc((0, -2.5), (2.5, 0), (0, 2.5))
        make_face()
    revolve(axis=Axis((20, 22.5, 10), (0, -1, 0)), mode=Mode.SUBTRACT)

    # LPattern2 copy 47 sketch → LPattern2 copy 47 (revolve, cut)
    with BuildSketch(Plane(origin=(20, 10, 10), x_dir=(-1, 0, 0), z_dir=(0, 0, -1))):
        with BuildLine():
            Line((0, 2.5), (0, -2.5))
            ThreePointArc((0, -2.5), (2.5, 0), (0, 2.5))
        make_face()
    revolve(axis=Axis((20, 12.5, 10), (0, -1, 0)), mode=Mode.SUBTRACT)

    # LPattern2 copy 48 sketch → LPattern2 copy 48 (revolve, cut)
    with BuildSketch(Plane(origin=(20, 0, 10), x_dir=(-1, 0, 0), z_dir=(0, 0, -1))):
        with BuildLine():
            Line((0, 2.5), (0, -2.5))
            ThreePointArc((0, -2.5), (2.5, 0), (0, 2.5))
        make_face()
    revolve(axis=Axis((20, 2.5, 10), (0, -1, 0)), mode=Mode.SUBTRACT)

    # LPattern2 copy 49 sketch → LPattern2 copy 49 (revolve, cut)
    with BuildSketch(Plane(origin=(-10, 10, 10), x_dir=(-1, 0, 0), z_dir=(0, 0, -1))):
        with BuildLine():
            Line((0, 2.5), (0, -2.5))
            ThreePointArc((0, -2.5), (2.5, 0), (0, 2.5))
        make_face()
    revolve(axis=Axis((-10, 12.5, 10), (0, -1, 0)), mode=Mode.SUBTRACT)

    # LPattern2 copy 50 sketch → LPattern2 copy 50 (revolve, cut)
    with BuildSketch(Plane(origin=(-10, 0, 10), x_dir=(-1, 0, 0), z_dir=(0, 0, -1))):
        with BuildLine():
            Line((0, 2.5), (0, -2.5))
            ThreePointArc((0, -2.5), (2.5, 0), (0, 2.5))
        make_face()
    revolve(axis=Axis((-10, 2.5, 10), (0, -1, 0)), mode=Mode.SUBTRACT)

    # LPattern2 copy 51 sketch → LPattern2 copy 51 (revolve, cut)
    with BuildSketch(Plane(origin=(0, 20, 10), x_dir=(-1, 0, 0), z_dir=(0, 0, -1))):
        with BuildLine():
            Line((0, 2.5), (0, -2.5))
            ThreePointArc((0, -2.5), (2.5, 0), (0, 2.5))
        make_face()
    revolve(axis=Axis((0, 22.5, 10), (0, -1, 0)), mode=Mode.SUBTRACT)

    # LPattern2 copy 52 sketch → LPattern2 copy 52 (revolve, cut)
    with BuildSketch(Plane(origin=(0, 10, 10), x_dir=(-1, 0, 0), z_dir=(0, 0, -1))):
        with BuildLine():
            Line((0, 2.5), (0, -2.5))
            ThreePointArc((0, -2.5), (2.5, 0), (0, 2.5))
        make_face()
    revolve(axis=Axis((0, 12.5, 10), (0, -1, 0)), mode=Mode.SUBTRACT)

    # LPattern2 copy 53 sketch → LPattern2 copy 53 (revolve, cut)
    with BuildSketch(Plane(origin=(0, 0, 10), x_dir=(-1, 0, 0), z_dir=(0, 0, -1))):
        with BuildLine():
            Line((0, 2.5), (0, -2.5))
            ThreePointArc((0, -2.5), (2.5, 0), (0, 2.5))
        make_face()
    revolve(axis=Axis((0, 2.5, 10), (0, -1, 0)), mode=Mode.SUBTRACT)

    # LPattern2 copy 54 sketch → LPattern2 copy 54 (revolve, cut)
    with BuildSketch(Plane(origin=(10, 20, 10), x_dir=(-1, 0, 0), z_dir=(0, 0, -1))):
        with BuildLine():
            Line((0, 2.5), (0, -2.5))
            ThreePointArc((0, -2.5), (2.5, 0), (0, 2.5))
        make_face()
    revolve(axis=Axis((10, 22.5, 10), (0, -1, 0)), mode=Mode.SUBTRACT)

    # LPattern2 copy 55 sketch → LPattern2 copy 55 (revolve, cut)
    with BuildSketch(Plane(origin=(10, 10, 10), x_dir=(-1, 0, 0), z_dir=(0, 0, -1))):
        with BuildLine():
            Line((0, 2.5), (0, -2.5))
            ThreePointArc((0, -2.5), (2.5, 0), (0, 2.5))
        make_face()
    revolve(axis=Axis((10, 12.5, 10), (0, -1, 0)), mode=Mode.SUBTRACT)

    # LPattern2 copy 56 sketch → LPattern2 copy 56 (revolve, cut)
    with BuildSketch(Plane(origin=(10, 0, 10), x_dir=(-1, 0, 0), z_dir=(0, 0, -1))):
        with BuildLine():
            Line((0, 2.5), (0, -2.5))
            ThreePointArc((0, -2.5), (2.5, 0), (0, 2.5))
        make_face()
    revolve(axis=Axis((10, 2.5, 10), (0, -1, 0)), mode=Mode.SUBTRACT)

    # LPattern2 copy 57 sketch → LPattern2 copy 57 (revolve, cut)
    with BuildSketch(Plane(origin=(-20, 10, 10), x_dir=(-1, 0, 0), z_dir=(0, 0, -1))):
        with BuildLine():
            Line((0, 2.5), (0, -2.5))
            ThreePointArc((0, -2.5), (2.5, 0), (0, 2.5))
        make_face()
    revolve(axis=Axis((-20, 12.5, 10), (0, -1, 0)), mode=Mode.SUBTRACT)

    # LPattern2 copy 58 sketch → LPattern2 copy 58 (revolve, cut)
    with BuildSketch(Plane(origin=(-20, 0, 10), x_dir=(-1, 0, 0), z_dir=(0, 0, -1))):
        with BuildLine():
            Line((0, 2.5), (0, -2.5))
            ThreePointArc((0, -2.5), (2.5, 0), (0, 2.5))
        make_face()
    revolve(axis=Axis((-20, 2.5, 10), (0, -1, 0)), mode=Mode.SUBTRACT)

    # LPattern2 copy 59 sketch → LPattern2 copy 59 (revolve, cut)
    with BuildSketch(Plane(origin=(-10, 20, 10), x_dir=(-1, 0, 0), z_dir=(0, 0, -1))):
        with BuildLine():
            Line((0, 2.5), (0, -2.5))
            ThreePointArc((0, -2.5), (2.5, 0), (0, 2.5))
        make_face()
    revolve(axis=Axis((-10, 22.5, 10), (0, -1, 0)), mode=Mode.SUBTRACT)

    # LPattern2 copy 60 sketch → LPattern2 copy 60 (revolve, cut)
    with BuildSketch(Plane(origin=(-10, 10, 10), x_dir=(-1, 0, 0), z_dir=(0, 0, -1))):
        with BuildLine():
            Line((0, 2.5), (0, -2.5))
            ThreePointArc((0, -2.5), (2.5, 0), (0, 2.5))
        make_face()
    revolve(axis=Axis((-10, 12.5, 10), (0, -1, 0)), mode=Mode.SUBTRACT)

    # LPattern2 copy 61 sketch → LPattern2 copy 61 (revolve, cut)
    with BuildSketch(Plane(origin=(-10, 0, 10), x_dir=(-1, 0, 0), z_dir=(0, 0, -1))):
        with BuildLine():
            Line((0, 2.5), (0, -2.5))
            ThreePointArc((0, -2.5), (2.5, 0), (0, 2.5))
        make_face()
    revolve(axis=Axis((-10, 2.5, 10), (0, -1, 0)), mode=Mode.SUBTRACT)

    # LPattern2 copy 62 sketch → LPattern2 copy 62 (revolve, cut)
    with BuildSketch(Plane(origin=(0, 20, 10), x_dir=(-1, 0, 0), z_dir=(0, 0, -1))):
        with BuildLine():
            Line((0, 2.5), (0, -2.5))
            ThreePointArc((0, -2.5), (2.5, 0), (0, 2.5))
        make_face()
    revolve(axis=Axis((0, 22.5, 10), (0, -1, 0)), mode=Mode.SUBTRACT)

    # LPattern2 copy 63 sketch → LPattern2 copy 63 (revolve, cut)
    with BuildSketch(Plane(origin=(0, 10, 10), x_dir=(-1, 0, 0), z_dir=(0, 0, -1))):
        with BuildLine():
            Line((0, 2.5), (0, -2.5))
            ThreePointArc((0, -2.5), (2.5, 0), (0, 2.5))
        make_face()
    revolve(axis=Axis((0, 12.5, 10), (0, -1, 0)), mode=Mode.SUBTRACT)

    # LPattern2 copy 64 sketch → LPattern2 copy 64 (revolve, cut)
    with BuildSketch(Plane(origin=(0, 0, 10), x_dir=(-1, 0, 0), z_dir=(0, 0, -1))):
        with BuildLine():
            Line((0, 2.5), (0, -2.5))
            ThreePointArc((0, -2.5), (2.5, 0), (0, 2.5))
        make_face()
    revolve(axis=Axis((0, 2.5, 10), (0, -1, 0)), mode=Mode.SUBTRACT)


solid = part.part
